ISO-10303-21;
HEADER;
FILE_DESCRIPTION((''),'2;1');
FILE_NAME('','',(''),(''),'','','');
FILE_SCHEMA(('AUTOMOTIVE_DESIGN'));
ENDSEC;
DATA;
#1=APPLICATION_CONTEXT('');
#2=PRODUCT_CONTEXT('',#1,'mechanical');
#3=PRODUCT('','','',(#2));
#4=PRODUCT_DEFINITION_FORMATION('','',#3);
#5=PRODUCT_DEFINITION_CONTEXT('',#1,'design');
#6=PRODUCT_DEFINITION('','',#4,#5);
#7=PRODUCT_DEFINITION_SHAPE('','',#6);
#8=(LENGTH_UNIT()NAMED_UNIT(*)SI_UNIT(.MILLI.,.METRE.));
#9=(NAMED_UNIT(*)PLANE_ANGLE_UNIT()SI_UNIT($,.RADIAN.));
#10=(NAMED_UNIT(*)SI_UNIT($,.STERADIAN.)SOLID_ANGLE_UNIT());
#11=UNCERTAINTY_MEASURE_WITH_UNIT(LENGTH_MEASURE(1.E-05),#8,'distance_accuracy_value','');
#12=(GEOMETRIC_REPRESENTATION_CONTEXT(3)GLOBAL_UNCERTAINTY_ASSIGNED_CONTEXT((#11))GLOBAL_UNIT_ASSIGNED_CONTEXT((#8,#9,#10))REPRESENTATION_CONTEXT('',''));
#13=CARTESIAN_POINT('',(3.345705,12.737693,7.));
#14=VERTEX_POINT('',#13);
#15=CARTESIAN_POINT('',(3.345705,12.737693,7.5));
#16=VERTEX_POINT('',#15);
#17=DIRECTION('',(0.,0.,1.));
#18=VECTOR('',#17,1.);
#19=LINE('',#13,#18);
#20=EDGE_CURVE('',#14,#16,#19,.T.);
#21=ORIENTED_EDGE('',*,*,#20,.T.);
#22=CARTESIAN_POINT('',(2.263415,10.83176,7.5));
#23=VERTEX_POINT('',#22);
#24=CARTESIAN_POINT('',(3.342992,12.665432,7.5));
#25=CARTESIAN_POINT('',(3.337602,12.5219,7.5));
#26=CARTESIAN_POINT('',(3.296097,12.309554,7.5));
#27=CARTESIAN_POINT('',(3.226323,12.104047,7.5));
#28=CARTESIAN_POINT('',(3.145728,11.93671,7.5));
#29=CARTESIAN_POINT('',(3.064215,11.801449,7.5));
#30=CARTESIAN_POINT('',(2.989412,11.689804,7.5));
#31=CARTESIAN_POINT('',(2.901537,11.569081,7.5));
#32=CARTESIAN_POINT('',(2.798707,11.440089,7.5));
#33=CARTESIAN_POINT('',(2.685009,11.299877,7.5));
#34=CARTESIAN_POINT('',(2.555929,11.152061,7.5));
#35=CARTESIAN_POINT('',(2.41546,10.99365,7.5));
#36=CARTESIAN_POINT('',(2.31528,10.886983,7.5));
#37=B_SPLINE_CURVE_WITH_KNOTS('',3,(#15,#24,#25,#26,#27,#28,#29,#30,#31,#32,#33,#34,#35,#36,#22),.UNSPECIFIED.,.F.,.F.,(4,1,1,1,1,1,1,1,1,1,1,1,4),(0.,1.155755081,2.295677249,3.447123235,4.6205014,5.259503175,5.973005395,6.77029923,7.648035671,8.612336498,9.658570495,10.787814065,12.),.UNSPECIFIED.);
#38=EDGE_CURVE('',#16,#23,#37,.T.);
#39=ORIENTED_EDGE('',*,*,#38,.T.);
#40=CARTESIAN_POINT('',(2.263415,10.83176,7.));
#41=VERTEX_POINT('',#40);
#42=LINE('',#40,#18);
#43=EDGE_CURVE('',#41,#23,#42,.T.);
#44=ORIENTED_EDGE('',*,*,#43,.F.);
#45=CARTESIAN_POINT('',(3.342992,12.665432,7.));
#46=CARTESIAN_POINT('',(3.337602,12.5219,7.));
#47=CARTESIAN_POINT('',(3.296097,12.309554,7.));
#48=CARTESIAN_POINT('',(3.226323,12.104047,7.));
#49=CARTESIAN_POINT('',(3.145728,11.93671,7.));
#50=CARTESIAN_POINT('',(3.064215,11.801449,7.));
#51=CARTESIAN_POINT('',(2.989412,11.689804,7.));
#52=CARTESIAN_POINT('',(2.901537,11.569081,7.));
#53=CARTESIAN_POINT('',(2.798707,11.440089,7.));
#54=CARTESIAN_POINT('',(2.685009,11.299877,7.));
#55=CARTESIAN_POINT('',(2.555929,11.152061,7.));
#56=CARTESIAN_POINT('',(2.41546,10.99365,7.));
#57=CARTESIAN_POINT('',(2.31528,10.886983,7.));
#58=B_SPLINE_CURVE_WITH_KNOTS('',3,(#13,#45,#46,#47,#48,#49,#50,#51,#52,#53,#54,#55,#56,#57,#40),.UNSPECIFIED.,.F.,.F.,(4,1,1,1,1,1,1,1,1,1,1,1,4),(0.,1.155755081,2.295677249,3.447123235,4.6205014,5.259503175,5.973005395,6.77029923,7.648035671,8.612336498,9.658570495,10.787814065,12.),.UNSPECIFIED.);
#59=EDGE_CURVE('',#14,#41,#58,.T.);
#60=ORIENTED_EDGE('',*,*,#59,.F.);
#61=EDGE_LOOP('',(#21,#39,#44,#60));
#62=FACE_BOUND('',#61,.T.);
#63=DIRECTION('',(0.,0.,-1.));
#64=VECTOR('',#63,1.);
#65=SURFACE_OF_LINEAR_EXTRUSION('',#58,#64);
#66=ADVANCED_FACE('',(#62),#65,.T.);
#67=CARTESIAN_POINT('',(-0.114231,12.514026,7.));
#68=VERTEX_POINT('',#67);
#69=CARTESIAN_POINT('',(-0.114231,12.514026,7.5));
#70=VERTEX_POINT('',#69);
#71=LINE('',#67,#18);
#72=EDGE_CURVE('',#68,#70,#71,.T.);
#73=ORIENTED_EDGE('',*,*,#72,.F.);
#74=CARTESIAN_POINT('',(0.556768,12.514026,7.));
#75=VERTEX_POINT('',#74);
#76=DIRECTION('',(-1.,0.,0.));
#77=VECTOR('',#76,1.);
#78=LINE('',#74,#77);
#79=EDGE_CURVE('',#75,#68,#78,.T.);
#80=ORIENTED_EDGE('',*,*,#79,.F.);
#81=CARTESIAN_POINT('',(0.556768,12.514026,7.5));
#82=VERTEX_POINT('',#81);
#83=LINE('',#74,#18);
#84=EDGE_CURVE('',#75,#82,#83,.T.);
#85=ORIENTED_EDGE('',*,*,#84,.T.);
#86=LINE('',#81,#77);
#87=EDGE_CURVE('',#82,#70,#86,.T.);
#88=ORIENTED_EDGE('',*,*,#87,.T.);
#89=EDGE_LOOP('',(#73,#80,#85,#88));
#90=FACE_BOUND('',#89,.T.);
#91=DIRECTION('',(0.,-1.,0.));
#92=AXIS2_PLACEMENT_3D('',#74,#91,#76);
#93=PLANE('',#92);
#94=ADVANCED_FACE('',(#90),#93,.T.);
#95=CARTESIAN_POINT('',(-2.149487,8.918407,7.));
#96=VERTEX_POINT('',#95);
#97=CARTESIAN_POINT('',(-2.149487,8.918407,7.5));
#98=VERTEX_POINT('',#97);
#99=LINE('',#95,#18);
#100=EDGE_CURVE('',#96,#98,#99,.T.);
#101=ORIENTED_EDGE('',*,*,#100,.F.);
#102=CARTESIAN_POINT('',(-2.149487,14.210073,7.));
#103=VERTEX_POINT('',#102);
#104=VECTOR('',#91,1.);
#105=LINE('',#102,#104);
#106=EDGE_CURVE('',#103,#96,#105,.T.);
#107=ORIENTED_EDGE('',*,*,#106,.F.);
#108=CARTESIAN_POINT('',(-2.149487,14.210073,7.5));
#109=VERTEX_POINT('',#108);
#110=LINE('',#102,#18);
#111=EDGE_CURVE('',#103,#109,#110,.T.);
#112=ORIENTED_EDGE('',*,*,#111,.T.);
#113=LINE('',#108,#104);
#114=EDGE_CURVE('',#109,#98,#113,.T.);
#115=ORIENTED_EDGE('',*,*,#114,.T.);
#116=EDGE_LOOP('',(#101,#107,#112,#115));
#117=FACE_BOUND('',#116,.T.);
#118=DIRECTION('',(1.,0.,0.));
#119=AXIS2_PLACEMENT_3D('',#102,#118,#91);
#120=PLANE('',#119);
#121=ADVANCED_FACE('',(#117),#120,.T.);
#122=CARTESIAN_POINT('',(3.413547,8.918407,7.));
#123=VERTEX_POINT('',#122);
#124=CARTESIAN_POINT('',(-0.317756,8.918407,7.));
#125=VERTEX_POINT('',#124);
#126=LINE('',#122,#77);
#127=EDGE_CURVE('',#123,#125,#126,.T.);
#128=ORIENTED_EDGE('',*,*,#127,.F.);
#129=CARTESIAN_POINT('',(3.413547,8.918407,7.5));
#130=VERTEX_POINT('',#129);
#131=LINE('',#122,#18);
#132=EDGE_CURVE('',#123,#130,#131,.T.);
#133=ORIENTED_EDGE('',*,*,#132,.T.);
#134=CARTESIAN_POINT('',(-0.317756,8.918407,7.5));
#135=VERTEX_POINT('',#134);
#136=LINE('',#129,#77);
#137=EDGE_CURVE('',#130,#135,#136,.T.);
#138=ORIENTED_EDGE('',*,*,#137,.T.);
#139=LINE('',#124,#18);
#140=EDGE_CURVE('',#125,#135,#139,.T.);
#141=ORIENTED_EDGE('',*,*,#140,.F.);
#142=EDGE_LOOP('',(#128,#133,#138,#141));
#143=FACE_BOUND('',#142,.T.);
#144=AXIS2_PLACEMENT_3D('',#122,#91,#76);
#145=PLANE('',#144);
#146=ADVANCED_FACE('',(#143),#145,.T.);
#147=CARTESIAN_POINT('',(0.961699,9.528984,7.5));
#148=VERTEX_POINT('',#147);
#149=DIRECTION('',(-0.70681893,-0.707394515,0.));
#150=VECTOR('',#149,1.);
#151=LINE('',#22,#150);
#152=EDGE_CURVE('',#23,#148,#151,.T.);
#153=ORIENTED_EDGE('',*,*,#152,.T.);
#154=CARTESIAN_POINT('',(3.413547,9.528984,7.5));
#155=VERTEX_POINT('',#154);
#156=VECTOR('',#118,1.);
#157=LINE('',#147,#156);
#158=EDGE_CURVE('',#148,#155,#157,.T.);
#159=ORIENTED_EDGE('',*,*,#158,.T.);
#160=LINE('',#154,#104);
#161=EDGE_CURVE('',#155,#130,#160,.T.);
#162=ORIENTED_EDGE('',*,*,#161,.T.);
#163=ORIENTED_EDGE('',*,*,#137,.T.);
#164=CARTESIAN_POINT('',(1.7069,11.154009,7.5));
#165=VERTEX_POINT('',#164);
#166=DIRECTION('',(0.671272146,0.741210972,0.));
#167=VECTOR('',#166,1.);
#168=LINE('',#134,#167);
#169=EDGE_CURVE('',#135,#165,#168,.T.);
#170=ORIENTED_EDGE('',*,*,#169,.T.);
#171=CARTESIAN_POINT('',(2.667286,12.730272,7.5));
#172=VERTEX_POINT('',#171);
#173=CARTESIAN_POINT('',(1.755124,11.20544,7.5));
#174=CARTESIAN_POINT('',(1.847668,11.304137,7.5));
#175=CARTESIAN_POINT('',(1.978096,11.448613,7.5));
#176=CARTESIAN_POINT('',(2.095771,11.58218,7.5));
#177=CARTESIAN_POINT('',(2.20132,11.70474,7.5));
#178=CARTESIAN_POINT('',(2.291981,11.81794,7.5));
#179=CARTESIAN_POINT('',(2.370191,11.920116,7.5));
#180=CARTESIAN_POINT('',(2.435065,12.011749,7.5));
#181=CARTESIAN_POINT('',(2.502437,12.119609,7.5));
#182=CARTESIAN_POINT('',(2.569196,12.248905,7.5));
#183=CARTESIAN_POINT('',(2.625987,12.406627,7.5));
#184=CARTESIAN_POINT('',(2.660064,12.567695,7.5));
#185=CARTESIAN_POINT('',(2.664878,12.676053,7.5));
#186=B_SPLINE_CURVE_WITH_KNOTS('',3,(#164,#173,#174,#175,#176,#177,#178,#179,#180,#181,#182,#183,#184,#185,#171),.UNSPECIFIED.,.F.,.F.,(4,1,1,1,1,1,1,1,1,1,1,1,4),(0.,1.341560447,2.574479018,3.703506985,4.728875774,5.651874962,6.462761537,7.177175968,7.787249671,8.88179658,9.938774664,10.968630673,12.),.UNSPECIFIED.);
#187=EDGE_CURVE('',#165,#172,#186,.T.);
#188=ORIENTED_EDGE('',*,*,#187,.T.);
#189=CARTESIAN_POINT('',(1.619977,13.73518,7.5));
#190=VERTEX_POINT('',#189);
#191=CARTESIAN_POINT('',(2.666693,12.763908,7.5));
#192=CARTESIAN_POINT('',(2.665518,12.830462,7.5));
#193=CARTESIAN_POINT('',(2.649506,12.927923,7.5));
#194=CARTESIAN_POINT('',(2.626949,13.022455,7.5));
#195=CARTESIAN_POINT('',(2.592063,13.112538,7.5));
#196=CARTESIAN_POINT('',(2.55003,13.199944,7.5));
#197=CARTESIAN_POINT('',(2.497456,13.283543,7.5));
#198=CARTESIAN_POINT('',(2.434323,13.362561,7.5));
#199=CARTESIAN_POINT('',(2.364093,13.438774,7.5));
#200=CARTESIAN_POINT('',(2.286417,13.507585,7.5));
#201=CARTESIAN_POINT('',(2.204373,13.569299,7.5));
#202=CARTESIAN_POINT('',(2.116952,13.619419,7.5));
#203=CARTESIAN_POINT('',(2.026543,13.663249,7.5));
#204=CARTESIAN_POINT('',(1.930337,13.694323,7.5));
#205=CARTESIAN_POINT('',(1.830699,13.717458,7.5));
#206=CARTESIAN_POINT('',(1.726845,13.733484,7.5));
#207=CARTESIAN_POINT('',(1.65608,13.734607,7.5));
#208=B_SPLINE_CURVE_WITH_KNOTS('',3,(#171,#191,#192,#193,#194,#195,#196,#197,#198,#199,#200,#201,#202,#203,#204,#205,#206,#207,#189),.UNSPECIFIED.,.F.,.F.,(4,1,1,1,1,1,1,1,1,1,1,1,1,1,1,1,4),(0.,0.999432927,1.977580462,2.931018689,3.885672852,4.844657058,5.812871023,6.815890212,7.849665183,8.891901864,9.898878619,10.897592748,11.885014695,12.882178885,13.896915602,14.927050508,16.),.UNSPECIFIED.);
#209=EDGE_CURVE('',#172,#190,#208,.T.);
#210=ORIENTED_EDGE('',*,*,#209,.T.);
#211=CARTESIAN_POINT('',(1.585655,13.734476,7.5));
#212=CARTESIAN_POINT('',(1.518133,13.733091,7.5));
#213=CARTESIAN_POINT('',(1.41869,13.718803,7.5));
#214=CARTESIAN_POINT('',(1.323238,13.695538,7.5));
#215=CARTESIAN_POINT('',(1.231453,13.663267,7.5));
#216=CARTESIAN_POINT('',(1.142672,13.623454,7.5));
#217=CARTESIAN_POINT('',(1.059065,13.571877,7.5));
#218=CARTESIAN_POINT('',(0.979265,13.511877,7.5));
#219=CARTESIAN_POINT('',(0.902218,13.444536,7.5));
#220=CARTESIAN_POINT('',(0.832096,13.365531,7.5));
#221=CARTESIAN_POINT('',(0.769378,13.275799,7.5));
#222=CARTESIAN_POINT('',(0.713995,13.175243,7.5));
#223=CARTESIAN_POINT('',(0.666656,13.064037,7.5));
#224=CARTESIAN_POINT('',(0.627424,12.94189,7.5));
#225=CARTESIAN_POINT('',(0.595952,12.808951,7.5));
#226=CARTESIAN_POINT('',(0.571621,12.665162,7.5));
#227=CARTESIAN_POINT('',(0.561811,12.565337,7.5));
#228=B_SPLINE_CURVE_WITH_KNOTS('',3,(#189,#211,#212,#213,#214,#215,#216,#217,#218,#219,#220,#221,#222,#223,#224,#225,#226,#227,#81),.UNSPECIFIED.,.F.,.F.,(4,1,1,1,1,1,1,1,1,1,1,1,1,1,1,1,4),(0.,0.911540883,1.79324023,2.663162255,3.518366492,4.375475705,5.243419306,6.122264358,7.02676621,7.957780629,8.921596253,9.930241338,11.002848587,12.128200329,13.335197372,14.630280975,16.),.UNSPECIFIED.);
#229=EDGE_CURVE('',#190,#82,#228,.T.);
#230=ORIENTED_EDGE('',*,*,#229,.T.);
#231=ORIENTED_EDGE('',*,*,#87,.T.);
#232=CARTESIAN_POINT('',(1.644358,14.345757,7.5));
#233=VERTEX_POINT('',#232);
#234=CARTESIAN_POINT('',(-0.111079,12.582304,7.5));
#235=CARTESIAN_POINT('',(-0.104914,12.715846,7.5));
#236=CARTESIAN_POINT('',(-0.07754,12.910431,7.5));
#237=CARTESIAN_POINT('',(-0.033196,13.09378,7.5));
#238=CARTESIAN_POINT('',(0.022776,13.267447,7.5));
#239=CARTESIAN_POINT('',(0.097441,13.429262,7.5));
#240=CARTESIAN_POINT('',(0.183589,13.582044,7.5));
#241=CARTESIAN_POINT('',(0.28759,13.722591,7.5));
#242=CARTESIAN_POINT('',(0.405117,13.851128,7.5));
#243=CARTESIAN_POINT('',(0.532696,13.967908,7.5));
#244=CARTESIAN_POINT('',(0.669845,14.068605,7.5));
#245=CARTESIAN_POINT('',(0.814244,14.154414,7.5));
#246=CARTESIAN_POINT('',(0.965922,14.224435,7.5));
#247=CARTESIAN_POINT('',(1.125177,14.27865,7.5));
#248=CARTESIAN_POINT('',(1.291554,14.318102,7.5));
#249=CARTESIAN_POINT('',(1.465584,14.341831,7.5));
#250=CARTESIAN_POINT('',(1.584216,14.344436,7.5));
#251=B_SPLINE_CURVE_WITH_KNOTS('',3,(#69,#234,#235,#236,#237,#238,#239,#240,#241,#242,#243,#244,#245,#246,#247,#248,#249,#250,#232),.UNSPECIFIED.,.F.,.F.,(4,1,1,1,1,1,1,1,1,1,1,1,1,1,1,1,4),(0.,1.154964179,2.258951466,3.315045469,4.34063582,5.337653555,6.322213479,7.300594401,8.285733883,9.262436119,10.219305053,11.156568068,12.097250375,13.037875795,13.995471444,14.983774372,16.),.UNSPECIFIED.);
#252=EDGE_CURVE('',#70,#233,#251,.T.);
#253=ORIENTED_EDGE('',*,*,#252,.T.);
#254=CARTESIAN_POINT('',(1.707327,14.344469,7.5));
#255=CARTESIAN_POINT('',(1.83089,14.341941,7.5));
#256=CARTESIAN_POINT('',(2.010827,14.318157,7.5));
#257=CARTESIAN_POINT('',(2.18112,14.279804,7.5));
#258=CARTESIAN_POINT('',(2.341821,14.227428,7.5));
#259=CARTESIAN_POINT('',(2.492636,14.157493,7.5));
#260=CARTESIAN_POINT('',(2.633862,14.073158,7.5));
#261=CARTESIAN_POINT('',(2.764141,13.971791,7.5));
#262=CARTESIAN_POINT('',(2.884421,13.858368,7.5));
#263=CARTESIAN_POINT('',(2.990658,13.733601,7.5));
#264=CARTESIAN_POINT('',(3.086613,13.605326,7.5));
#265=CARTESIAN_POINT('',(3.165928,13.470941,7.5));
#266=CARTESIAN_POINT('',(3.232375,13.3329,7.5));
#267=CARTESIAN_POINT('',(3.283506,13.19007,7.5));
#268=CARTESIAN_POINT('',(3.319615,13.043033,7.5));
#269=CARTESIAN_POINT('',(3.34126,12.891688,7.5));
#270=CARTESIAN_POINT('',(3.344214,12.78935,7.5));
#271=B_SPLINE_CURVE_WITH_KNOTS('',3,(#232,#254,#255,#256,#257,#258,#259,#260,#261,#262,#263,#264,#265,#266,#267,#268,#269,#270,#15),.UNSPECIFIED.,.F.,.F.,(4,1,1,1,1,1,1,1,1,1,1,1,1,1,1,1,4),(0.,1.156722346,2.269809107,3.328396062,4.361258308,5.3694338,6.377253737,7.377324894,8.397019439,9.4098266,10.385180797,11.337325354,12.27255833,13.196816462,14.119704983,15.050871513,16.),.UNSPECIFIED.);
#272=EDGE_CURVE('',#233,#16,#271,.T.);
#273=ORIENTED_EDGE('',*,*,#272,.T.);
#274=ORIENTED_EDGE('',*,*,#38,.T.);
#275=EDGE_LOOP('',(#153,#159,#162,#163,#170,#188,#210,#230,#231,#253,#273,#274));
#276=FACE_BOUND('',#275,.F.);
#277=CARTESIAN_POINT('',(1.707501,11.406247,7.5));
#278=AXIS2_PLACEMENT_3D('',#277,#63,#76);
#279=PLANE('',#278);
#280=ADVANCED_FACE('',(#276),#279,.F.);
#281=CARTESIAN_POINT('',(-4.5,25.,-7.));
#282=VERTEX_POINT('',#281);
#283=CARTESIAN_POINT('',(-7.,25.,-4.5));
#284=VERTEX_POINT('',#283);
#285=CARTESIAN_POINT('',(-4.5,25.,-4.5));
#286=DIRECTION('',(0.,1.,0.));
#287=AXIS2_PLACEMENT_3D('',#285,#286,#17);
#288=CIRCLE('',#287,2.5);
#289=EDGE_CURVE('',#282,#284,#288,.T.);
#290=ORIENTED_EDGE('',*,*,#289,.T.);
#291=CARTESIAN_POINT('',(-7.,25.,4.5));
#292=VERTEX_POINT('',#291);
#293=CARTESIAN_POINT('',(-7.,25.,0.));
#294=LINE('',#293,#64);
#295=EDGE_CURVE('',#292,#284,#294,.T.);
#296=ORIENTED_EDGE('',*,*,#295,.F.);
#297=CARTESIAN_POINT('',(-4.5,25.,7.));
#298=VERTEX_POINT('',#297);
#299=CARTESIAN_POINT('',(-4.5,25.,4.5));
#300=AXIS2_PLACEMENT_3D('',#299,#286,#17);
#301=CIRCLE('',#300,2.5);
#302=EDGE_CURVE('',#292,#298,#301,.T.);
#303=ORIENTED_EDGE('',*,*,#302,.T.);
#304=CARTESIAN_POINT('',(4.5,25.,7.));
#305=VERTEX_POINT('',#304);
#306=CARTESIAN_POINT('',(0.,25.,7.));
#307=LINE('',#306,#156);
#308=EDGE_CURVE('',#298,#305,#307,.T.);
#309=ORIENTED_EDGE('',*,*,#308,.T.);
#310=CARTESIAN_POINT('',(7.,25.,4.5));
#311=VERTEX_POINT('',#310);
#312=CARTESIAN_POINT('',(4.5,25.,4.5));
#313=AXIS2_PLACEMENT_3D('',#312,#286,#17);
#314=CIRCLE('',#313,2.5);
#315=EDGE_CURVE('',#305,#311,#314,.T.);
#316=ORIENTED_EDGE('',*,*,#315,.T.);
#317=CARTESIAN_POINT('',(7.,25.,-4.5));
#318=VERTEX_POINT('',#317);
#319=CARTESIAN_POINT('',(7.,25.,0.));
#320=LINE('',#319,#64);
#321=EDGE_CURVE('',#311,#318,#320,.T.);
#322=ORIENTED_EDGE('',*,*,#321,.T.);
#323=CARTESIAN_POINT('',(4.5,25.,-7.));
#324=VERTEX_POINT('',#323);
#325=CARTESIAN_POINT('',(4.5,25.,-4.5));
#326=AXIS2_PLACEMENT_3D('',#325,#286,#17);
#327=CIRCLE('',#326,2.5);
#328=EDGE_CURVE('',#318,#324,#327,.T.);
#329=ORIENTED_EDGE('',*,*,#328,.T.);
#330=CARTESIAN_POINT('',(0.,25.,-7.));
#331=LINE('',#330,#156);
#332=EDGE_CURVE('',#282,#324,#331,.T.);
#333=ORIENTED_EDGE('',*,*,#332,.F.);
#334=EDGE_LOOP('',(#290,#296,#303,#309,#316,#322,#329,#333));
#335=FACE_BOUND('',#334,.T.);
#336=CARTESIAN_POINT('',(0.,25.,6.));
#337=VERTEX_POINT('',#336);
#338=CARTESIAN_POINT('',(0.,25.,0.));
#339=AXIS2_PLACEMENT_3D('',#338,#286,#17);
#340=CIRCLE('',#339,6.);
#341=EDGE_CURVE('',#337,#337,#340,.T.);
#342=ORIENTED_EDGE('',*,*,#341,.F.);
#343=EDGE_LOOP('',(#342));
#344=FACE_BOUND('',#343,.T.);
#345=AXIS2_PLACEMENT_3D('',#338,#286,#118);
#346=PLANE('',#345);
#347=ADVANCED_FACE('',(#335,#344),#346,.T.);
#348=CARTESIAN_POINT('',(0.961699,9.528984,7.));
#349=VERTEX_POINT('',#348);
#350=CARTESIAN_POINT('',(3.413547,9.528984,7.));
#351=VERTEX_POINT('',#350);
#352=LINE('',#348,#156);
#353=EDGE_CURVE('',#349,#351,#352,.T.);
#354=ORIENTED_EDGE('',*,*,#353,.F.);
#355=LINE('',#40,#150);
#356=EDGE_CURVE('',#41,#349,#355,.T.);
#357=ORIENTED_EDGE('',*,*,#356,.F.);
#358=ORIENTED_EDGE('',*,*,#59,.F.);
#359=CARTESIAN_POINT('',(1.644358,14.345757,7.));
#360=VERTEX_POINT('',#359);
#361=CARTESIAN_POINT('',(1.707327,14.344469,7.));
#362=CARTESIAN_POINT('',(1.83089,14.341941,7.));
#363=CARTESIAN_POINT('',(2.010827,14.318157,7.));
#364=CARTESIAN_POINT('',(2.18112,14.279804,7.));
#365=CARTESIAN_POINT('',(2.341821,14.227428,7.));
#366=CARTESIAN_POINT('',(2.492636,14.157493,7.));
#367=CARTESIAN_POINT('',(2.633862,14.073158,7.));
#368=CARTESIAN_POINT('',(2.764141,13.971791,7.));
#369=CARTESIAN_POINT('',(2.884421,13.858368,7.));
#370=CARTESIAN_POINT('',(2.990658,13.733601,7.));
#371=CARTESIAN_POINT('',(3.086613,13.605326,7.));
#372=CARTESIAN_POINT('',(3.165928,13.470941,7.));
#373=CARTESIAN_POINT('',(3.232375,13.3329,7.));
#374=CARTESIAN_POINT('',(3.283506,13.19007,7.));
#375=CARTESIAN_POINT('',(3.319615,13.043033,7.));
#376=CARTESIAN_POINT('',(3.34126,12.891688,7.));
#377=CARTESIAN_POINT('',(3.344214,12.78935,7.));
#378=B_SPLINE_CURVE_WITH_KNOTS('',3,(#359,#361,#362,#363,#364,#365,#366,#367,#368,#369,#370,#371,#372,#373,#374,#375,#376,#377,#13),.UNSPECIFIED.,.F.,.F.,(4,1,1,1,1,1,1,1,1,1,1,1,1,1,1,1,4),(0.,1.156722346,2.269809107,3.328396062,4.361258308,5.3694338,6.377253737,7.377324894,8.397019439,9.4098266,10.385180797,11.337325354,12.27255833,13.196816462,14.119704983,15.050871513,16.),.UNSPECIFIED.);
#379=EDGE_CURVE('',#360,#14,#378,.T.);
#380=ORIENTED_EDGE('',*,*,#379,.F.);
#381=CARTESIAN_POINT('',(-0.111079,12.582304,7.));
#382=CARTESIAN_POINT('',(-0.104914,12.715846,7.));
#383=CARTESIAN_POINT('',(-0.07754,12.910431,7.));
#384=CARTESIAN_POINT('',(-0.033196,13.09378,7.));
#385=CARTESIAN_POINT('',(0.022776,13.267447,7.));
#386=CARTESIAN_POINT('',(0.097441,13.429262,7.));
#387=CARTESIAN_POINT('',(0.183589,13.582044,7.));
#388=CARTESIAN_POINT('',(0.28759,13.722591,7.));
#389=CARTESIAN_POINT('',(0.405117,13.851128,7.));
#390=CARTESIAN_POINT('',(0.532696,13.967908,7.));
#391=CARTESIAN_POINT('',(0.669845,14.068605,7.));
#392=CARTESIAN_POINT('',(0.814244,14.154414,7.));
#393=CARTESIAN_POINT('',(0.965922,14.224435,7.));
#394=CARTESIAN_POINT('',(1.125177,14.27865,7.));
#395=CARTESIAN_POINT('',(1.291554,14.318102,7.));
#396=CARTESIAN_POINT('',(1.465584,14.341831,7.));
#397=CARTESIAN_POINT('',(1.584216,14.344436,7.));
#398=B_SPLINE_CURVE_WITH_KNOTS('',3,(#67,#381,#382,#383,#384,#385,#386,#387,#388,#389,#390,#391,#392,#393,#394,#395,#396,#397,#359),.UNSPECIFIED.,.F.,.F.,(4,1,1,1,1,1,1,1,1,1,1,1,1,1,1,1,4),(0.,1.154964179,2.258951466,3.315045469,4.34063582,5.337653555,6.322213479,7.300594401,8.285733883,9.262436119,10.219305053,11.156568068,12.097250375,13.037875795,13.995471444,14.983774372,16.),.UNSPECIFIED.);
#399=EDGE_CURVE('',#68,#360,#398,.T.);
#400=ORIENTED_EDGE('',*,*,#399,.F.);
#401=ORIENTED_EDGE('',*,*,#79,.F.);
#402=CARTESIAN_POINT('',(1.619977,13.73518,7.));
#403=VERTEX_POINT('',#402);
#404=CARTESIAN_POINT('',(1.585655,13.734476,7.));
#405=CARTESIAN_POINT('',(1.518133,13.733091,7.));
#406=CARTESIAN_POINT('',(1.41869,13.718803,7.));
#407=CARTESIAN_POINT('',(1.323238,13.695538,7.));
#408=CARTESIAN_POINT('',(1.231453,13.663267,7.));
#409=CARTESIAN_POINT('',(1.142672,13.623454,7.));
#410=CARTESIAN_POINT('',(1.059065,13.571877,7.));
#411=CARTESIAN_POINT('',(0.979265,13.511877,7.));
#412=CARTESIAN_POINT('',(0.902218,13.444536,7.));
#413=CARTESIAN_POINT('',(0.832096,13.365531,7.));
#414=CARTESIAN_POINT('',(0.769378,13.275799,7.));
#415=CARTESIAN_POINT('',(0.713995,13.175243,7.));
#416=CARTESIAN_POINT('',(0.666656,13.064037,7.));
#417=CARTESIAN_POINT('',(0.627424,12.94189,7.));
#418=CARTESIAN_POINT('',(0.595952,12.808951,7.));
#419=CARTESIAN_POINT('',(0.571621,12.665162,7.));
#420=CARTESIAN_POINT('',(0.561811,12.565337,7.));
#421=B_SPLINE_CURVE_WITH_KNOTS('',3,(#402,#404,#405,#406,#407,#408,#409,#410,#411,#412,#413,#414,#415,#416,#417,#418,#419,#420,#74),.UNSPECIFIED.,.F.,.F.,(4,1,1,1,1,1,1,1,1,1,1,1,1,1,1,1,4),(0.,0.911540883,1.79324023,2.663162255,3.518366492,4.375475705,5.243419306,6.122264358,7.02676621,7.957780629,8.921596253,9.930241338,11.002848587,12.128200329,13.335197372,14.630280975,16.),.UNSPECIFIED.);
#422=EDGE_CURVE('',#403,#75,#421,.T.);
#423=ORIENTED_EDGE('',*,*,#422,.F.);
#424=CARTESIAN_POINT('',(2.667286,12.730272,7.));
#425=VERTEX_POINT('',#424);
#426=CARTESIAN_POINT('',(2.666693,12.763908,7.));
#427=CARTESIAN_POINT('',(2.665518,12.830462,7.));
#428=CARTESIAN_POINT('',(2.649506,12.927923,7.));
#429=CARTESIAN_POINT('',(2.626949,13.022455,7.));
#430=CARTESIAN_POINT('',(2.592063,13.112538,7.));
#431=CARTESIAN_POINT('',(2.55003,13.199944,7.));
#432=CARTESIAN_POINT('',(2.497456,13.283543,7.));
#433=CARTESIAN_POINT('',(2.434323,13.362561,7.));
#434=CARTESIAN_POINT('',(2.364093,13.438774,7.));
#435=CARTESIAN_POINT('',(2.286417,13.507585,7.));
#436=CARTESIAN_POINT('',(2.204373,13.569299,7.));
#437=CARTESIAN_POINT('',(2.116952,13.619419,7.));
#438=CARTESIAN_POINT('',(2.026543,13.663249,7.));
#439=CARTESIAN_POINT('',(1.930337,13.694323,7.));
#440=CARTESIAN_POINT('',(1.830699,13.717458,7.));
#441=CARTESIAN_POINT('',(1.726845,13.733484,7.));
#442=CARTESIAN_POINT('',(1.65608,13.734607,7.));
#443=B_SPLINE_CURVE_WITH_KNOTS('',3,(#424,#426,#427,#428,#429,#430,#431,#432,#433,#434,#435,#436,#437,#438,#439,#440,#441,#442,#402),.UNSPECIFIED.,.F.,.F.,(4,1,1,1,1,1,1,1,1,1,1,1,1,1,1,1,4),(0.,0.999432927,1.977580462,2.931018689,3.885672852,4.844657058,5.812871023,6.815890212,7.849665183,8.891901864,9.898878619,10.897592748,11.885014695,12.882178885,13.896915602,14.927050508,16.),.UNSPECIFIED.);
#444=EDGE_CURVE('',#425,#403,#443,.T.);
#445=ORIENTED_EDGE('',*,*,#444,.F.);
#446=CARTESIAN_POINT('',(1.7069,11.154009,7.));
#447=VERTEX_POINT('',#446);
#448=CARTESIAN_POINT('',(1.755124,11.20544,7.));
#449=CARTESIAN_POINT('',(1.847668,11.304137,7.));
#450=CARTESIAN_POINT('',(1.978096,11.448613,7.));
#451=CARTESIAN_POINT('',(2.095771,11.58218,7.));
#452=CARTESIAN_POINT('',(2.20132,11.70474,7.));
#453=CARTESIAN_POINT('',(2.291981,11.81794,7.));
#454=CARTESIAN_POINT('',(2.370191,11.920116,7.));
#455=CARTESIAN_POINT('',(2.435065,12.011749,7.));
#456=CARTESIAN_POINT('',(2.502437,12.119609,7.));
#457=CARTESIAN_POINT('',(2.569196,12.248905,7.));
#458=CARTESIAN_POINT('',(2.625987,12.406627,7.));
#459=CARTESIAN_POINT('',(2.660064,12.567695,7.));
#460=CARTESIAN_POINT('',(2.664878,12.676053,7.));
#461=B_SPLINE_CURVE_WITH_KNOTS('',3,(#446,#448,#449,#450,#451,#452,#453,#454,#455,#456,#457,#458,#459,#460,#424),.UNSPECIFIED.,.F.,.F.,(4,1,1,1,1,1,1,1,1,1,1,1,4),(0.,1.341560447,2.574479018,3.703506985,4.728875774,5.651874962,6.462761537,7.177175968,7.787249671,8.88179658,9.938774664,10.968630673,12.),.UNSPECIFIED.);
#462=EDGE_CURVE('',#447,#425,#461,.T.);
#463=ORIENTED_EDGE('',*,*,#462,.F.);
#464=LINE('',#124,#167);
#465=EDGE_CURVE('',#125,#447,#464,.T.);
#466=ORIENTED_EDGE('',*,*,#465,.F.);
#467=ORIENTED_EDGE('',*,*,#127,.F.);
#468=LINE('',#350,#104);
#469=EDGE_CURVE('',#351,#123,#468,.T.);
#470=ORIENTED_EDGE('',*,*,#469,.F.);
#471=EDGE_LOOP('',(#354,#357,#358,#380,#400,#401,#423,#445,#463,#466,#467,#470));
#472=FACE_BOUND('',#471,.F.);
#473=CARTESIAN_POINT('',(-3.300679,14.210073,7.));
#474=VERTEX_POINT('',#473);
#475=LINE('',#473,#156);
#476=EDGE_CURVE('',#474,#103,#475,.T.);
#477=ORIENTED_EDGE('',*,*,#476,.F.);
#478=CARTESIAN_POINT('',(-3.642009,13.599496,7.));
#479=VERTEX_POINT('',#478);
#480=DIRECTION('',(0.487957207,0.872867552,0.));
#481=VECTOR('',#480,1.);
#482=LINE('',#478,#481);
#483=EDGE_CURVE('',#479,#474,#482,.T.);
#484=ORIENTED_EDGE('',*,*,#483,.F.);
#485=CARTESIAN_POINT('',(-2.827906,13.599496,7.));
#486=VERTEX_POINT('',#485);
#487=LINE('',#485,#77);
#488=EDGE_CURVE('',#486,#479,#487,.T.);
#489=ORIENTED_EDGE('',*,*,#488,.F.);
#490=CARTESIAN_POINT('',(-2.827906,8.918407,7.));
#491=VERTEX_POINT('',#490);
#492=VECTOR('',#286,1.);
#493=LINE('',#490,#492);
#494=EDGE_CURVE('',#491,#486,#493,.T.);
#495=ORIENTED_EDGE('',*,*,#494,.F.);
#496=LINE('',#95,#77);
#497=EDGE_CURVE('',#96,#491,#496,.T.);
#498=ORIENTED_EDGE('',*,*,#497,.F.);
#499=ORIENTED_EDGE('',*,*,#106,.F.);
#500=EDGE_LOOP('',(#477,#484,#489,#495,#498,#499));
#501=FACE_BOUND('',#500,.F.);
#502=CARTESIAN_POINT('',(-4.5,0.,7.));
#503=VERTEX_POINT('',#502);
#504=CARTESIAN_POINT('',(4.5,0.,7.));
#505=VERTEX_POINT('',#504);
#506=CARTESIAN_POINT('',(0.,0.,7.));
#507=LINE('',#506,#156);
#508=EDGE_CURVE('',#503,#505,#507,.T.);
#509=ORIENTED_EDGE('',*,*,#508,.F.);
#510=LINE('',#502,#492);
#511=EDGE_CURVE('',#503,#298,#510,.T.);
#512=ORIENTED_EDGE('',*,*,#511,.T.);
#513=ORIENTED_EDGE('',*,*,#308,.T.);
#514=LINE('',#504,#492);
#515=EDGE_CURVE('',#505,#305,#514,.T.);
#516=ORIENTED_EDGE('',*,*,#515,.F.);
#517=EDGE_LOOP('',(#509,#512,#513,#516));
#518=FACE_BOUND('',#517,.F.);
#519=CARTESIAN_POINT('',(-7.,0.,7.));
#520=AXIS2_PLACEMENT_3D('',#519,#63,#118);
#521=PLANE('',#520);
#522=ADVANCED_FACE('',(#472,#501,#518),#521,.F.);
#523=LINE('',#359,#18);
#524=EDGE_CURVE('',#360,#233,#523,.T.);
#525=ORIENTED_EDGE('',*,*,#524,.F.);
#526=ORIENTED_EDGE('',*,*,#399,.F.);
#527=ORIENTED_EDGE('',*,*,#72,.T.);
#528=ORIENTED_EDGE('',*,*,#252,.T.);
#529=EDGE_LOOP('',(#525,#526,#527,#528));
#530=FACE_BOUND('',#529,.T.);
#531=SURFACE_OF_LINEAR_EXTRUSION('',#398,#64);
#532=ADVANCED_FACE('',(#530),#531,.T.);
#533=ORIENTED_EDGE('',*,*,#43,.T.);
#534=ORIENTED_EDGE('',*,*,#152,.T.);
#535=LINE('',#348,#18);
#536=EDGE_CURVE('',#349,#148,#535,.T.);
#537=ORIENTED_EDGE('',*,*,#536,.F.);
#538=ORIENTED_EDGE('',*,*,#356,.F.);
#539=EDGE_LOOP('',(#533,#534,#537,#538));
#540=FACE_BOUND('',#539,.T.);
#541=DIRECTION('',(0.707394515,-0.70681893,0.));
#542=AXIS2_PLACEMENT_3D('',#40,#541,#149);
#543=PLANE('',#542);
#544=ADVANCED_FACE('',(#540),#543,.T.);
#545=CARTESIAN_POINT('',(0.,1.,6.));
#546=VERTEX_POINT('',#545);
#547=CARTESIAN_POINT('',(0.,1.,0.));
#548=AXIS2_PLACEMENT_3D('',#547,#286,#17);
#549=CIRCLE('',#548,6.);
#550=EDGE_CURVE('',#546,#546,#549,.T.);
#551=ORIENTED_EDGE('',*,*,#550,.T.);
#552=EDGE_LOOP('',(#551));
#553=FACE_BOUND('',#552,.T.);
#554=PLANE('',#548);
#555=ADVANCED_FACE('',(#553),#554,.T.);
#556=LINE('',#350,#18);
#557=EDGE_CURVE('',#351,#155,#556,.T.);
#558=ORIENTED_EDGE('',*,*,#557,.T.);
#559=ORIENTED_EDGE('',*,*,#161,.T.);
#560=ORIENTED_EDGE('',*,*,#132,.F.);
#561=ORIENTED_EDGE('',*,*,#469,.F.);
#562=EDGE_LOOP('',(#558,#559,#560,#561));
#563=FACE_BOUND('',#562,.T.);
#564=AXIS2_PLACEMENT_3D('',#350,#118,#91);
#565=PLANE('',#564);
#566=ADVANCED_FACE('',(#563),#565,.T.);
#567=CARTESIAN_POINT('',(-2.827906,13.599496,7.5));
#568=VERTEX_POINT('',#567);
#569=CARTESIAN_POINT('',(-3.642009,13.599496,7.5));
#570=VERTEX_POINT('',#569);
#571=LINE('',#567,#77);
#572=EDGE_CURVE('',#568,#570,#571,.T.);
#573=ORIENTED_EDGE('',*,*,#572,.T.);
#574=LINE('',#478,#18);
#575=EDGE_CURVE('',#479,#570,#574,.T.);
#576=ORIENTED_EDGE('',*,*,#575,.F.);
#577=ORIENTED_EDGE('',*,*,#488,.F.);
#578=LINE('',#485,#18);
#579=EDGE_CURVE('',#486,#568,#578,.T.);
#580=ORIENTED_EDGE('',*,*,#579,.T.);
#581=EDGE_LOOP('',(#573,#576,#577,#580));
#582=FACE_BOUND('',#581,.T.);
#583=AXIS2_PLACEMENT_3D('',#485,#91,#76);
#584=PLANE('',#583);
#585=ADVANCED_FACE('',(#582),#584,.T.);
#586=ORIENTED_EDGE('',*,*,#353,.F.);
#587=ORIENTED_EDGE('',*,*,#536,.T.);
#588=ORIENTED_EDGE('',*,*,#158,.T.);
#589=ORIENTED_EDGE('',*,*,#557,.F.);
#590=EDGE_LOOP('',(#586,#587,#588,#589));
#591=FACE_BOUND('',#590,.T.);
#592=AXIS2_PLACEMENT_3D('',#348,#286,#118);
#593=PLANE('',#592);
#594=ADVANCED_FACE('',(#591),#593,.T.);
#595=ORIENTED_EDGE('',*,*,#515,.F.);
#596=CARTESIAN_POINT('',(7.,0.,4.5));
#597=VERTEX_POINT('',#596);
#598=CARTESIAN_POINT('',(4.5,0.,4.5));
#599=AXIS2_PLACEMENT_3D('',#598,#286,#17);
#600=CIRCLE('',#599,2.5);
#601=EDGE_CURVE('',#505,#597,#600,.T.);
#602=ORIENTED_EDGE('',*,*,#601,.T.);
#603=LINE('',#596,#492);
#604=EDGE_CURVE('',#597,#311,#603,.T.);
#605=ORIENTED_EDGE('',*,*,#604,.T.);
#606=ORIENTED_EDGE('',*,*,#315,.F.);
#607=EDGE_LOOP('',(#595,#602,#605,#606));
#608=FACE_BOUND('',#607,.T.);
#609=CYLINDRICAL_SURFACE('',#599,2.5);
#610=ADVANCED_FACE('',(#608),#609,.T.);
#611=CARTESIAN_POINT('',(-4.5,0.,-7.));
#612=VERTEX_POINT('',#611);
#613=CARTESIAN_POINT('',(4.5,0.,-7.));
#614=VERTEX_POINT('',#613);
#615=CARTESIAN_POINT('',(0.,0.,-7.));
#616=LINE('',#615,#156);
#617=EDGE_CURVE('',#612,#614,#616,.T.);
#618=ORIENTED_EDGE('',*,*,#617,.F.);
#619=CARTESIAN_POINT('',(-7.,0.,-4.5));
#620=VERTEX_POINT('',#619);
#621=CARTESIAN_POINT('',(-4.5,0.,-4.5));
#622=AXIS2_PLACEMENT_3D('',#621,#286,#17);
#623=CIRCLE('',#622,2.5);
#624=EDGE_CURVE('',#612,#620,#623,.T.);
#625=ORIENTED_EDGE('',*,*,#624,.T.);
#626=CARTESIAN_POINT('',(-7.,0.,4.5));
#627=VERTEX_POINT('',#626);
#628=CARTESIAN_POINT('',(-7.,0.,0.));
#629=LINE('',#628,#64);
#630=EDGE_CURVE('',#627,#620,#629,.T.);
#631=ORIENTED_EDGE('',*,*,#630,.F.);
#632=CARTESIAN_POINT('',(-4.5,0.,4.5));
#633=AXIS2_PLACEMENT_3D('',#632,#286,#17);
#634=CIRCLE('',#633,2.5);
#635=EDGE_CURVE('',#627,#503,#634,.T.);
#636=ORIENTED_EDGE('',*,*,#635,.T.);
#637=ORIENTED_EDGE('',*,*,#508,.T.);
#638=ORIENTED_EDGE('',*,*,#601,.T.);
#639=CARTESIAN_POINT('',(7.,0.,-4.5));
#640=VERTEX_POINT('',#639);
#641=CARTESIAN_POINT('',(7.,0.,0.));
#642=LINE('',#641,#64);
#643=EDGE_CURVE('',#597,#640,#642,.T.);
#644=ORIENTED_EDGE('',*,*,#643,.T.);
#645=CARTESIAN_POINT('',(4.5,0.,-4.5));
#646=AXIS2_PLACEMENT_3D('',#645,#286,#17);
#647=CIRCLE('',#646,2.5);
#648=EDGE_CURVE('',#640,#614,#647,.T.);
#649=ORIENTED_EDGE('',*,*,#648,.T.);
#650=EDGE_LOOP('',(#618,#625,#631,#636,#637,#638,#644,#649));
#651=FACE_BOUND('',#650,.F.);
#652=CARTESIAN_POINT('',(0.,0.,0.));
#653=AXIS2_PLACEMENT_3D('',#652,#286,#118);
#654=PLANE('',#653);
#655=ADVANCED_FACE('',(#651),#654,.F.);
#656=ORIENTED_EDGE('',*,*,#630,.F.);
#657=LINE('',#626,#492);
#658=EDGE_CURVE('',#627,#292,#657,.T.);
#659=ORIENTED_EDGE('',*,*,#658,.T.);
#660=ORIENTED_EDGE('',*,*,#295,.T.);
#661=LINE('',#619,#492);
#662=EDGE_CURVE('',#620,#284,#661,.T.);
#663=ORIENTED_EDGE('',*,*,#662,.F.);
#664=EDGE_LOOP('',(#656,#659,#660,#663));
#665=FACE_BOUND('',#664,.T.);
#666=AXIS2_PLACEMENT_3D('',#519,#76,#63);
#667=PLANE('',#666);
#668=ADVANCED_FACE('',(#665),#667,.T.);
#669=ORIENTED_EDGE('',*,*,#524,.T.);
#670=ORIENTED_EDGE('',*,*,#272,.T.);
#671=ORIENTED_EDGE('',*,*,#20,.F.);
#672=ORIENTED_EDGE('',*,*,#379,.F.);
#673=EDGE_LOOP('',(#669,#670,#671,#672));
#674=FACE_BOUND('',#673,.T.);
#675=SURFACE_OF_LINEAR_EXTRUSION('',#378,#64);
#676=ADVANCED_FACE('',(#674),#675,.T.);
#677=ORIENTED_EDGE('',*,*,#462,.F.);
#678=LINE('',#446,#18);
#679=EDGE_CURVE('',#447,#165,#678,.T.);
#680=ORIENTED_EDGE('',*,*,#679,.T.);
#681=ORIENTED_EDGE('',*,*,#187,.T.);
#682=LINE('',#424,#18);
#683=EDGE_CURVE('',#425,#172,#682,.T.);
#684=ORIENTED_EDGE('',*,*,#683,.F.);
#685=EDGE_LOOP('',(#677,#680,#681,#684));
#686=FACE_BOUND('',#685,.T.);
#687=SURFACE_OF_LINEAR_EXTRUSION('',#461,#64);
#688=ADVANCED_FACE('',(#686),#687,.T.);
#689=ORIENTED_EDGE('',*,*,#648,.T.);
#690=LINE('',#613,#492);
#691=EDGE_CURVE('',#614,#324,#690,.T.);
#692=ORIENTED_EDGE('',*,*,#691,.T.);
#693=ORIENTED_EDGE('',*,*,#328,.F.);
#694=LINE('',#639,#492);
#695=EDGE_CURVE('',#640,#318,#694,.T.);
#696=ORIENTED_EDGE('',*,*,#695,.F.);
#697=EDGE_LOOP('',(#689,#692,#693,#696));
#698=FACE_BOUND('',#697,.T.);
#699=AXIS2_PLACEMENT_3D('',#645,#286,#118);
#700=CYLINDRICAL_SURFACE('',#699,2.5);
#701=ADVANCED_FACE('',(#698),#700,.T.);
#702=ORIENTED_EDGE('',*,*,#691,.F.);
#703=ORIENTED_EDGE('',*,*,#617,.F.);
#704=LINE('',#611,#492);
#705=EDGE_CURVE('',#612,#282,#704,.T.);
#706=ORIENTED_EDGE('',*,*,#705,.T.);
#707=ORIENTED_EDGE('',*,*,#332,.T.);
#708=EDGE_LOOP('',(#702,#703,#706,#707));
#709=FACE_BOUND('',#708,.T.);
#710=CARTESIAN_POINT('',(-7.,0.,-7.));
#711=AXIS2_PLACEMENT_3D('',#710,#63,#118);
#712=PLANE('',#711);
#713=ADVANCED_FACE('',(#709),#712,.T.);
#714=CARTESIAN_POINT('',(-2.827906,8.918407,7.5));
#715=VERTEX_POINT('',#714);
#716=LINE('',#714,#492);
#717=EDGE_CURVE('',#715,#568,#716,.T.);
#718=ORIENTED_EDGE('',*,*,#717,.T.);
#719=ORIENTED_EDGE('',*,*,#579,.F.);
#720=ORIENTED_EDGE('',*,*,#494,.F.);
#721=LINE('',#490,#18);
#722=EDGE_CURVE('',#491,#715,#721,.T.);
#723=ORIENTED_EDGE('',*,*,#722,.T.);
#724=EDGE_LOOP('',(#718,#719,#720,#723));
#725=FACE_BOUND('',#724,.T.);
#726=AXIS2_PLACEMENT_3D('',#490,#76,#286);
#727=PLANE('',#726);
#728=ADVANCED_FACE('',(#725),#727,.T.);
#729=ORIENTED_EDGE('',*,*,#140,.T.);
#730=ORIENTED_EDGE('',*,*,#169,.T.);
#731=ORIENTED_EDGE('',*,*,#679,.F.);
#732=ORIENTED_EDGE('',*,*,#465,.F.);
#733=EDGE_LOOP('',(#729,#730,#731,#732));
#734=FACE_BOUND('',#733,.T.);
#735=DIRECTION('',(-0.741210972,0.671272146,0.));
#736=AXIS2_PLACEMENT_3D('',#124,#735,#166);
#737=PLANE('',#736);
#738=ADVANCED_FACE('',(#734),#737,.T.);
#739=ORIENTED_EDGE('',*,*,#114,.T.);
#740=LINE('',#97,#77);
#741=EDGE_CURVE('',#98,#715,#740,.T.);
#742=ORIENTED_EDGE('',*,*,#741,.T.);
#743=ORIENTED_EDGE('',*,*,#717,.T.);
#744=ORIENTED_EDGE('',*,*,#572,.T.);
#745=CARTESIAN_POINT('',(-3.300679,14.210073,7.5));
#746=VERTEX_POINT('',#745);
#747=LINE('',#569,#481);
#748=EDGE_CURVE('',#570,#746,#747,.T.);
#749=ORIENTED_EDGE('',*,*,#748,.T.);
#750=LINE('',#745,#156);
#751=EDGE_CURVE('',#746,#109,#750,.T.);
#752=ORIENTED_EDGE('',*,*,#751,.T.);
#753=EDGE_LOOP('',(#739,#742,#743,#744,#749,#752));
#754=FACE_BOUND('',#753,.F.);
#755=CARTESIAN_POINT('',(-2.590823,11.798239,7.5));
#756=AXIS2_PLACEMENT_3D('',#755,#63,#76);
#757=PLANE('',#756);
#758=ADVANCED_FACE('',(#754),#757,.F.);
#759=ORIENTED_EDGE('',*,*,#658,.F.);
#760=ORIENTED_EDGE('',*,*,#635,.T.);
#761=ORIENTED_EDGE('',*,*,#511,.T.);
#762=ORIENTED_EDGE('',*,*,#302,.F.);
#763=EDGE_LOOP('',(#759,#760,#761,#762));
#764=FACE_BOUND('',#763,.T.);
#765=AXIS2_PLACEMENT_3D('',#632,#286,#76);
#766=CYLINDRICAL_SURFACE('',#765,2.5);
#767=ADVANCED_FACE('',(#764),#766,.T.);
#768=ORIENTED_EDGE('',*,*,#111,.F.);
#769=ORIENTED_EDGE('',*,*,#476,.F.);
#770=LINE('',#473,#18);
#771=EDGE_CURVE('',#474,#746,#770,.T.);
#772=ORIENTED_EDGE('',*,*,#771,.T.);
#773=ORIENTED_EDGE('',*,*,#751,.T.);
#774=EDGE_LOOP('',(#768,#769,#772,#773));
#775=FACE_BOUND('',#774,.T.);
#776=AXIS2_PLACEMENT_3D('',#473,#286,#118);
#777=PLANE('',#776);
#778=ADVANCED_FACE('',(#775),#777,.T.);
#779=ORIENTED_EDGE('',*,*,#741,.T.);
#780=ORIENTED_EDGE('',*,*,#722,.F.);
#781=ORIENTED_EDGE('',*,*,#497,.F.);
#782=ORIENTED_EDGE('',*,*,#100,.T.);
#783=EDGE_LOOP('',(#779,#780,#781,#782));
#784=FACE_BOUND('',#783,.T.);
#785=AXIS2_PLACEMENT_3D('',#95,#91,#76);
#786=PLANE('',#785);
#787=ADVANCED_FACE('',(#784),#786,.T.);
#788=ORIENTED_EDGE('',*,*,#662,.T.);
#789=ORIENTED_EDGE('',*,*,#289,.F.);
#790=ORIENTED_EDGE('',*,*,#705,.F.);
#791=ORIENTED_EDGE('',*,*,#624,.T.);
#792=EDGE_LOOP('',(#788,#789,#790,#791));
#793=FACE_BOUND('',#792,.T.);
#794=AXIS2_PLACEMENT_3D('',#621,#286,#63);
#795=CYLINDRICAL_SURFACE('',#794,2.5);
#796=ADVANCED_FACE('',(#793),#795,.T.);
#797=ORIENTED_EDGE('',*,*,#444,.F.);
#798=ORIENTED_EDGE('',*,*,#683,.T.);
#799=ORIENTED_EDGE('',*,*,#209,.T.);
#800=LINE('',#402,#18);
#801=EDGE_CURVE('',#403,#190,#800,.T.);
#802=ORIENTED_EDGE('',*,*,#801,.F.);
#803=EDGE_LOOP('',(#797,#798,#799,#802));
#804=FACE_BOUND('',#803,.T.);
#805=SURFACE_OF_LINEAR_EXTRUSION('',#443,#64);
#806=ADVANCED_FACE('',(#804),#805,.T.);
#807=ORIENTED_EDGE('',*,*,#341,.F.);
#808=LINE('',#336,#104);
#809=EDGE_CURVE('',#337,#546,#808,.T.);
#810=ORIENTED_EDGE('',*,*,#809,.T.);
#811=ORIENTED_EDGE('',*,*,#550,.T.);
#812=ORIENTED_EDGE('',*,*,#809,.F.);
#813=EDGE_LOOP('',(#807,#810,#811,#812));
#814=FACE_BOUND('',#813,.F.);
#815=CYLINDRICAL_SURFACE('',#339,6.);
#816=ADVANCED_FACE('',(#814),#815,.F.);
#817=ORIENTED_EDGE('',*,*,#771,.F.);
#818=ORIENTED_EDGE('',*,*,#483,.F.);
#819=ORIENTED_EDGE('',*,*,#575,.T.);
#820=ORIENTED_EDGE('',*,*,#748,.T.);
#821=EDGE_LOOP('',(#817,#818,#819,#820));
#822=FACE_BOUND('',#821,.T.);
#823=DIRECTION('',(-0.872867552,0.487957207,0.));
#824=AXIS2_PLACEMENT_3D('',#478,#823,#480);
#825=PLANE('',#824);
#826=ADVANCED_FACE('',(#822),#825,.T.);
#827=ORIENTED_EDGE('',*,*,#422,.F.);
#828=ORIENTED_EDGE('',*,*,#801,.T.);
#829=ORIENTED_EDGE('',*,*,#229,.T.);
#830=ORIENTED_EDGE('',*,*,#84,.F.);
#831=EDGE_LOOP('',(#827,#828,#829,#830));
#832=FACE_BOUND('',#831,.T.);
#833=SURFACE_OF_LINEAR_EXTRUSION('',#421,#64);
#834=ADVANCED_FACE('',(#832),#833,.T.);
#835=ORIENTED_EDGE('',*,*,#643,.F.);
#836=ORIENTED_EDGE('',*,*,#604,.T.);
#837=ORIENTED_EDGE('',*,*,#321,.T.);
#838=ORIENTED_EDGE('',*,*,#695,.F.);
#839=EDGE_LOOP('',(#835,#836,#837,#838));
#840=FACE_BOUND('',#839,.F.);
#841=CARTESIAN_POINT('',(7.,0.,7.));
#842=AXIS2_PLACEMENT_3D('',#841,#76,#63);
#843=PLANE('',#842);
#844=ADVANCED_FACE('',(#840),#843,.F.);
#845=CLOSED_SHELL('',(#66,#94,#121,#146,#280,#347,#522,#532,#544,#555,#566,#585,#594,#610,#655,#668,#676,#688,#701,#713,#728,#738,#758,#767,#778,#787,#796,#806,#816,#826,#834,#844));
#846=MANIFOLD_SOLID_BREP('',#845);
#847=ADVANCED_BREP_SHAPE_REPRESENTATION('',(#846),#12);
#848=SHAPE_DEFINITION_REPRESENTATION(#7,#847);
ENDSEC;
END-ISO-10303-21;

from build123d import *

# Parameters (mm, degrees)
SKETCH1_W           = 14
SKETCH1_H           = 14
BOSS_EXTRUDE1_DEPTH = 25
SKETCH2_R           = 6
CUT_EXTRUDE1_DEPTH  = 24
BOSS_EXTRUDE3_DEPTH = 0.5
FILLET1_R           = 2.5
FILLET2_R           = 2.5
FILLET3_R           = 2.5
FILLET4_R           = 2.5


with BuildPart() as part:
    # Sketch1 → Boss-Extrude1 (new body)
    with BuildSketch(Plane(origin=(0, 0, 0), x_dir=(1, 0, 0), z_dir=(0, 1, 0))):
        Rectangle(SKETCH1_W, SKETCH1_H)
    extrude(amount=BOSS_EXTRUDE1_DEPTH)

    # Sketch2 → Cut-Extrude1 (cut)
    with BuildSketch(Plane(origin=(0, 25, 0), x_dir=(1, 0, 0), z_dir=(0, 1, 0))):
        with Locations(Location((0, 0, 0), (0, 0, 270))):
            Circle(SKETCH2_R)
    extrude(amount=-CUT_EXTRUDE1_DEPTH, mode=Mode.SUBTRACT)

    # Sketch3 → Boss-Extrude3 (add)
    with BuildSketch(Plane.XY.offset(7)):
        Polygon((-3.300679086, 14.210073329), (-2.149487179, 14.210073329), (-2.149487179, 8.918406662), (-2.827905982, 8.918406662), (-2.827905982, 13.599496406), (-3.642008546, 13.599496406), align=None)
        with BuildLine():
            Line((0.556767829, 12.514026321), (-0.114230768, 12.514026321))
            add(Edge.make_bspline(
                [(-0.114230768, 12.514026321), (-0.111078886, 12.582304036), (-0.104914236, 12.71584588), (-0.077540014, 12.910431266), (-0.033195725, 13.093780337), (0.02277613, 13.267447402), (0.097441024, 13.429261532), (0.183589376, 13.582043561), (0.287590231, 13.722591478), (0.405116879, 13.851127618), (0.532696206, 13.967907704), (0.66984458, 14.068604955), (0.814243771, 14.154413881), (0.965922174, 14.224434532), (1.125176835, 14.278650186), (1.291553818, 14.318101559), (1.465583884, 14.341830622), (1.584215771, 14.344436169), (1.644357974, 14.34575709)],
                knots=[0, 0, 0, 0, 1.154964179, 2.258951466, 3.315045469, 4.34063582, 5.337653555, 6.322213479, 7.300594401, 8.285733883, 9.262436119, 10.219305053, 11.156568068, 12.097250375, 13.037875795, 13.995471444, 14.983774372, 16, 16, 16, 16], degree=3))
            add(Edge.make_bspline(
                [(1.644357974, 14.34575709), (1.70732699, 14.344469016), (1.830889612, 14.34194146), (2.01082655, 14.31815685), (2.181120391, 14.279804182), (2.341820997, 14.227428226), (2.492635583, 14.157492683), (2.633861547, 14.073158132), (2.764141354, 13.971791047), (2.884420569, 13.858367608), (2.990658217, 13.73360089), (3.086612633, 13.605325884), (3.165928247, 13.470941026), (3.232374739, 13.332900213), (3.283506362, 13.190070488), (3.319615354, 13.043033103), (3.341259687, 12.891688146), (3.344213908, 12.789350264), (3.345705129, 12.73769252)],
                knots=[0, 0, 0, 0, 1.156722346, 2.269809107, 3.328396062, 4.361258308, 5.3694338, 6.377253737, 7.377324894, 8.397019439, 9.4098266, 10.385180797, 11.337325354, 12.27255833, 13.196816462, 14.119704983, 15.050871513, 16, 16, 16, 16], degree=3))
            add(Edge.make_bspline(
                [(3.345705129, 12.73769252), (3.342991558, 12.665431813), (3.337601589, 12.521900312), (3.29609716, 12.309553694), (3.226323351, 12.104046507), (3.145727927, 11.936709759), (3.064215379, 11.80144908), (2.989411872, 11.689803537), (2.901537104, 11.569080813), (2.798706557, 11.440089036), (2.685009192, 11.299876822), (2.555928501, 11.152061213), (2.415459729, 10.993649578), (2.315279585, 10.886982507), (2.263415132, 10.831759694)],
                knots=[0, 0, 0, 0, 1.155755081, 2.295677249, 3.447123235, 4.6205014, 5.259503175, 5.973005395, 6.77029923, 7.648035671, 8.612336498, 9.658570495, 10.787814065, 12, 12, 12, 12], degree=3))
            Line((2.263415132, 10.831759694), (0.961699053, 9.528983586))
            Line((0.961699053, 9.528983586), (3.413547009, 9.528983586))
            Line((3.413547009, 9.528983586), (3.413547009, 8.918406662))
            Line((3.413547009, 8.918406662), (-0.317756409, 8.918406662))
            Line((-0.317756409, 8.918406662), (1.706899707, 11.154008626))
            add(Edge.make_bspline(
                [(1.706899707, 11.154008626), (1.755124332, 11.205439648), (1.847668268, 11.304136719), (1.978095845, 11.448613384), (2.095770717, 11.582179805), (2.201320257, 11.704739563), (2.29198055, 11.81793999), (2.370190541, 11.92011571), (2.435064878, 12.011749217), (2.502437185, 12.119609483), (2.569196231, 12.248904612), (2.625986943, 12.406626513), (2.660064153, 12.567694788), (2.664877757, 12.676053287), (2.667286326, 12.730272314)],
                knots=[0, 0, 0, 0, 1.341560447, 2.574479018, 3.703506985, 4.728875774, 5.651874962, 6.462761537, 7.177175968, 7.787249671, 8.88179658, 9.938774664, 10.968630673, 12, 12, 12, 12], degree=3))
            add(Edge.make_bspline(
                [(2.667286326, 12.730272314), (2.666692753, 12.763907746), (2.66551825, 12.830462259), (2.649505827, 12.927923363), (2.626949455, 13.022455211), (2.592062636, 13.112538015), (2.550030438, 13.199944057), (2.497455636, 13.283543423), (2.434322648, 13.362560638), (2.36409314, 13.43877354), (2.286417458, 13.507585159), (2.204373375, 13.569299116), (2.116951948, 13.619418877), (2.026543408, 13.663249485), (1.930337353, 13.694322519), (1.830698643, 13.717457991), (1.726844914, 13.733484398), (1.656080047, 13.734607291), (1.619977298, 13.735180167)],
                knots=[0, 0, 0, 0, 0.999432927, 1.977580462, 2.931018689, 3.885672852, 4.844657058, 5.812871023, 6.815890212, 7.849665183, 8.891901864, 9.898878619, 10.897592748, 11.885014695, 12.882178885, 13.896915602, 14.927050508, 16, 16, 16, 16], degree=3))
            add(Edge.make_bspline(
                [(1.619977298, 13.735180167), (1.585654597, 13.734476202), (1.518132832, 13.733091317), (1.41869032, 13.718802518), (1.32323782, 13.695537542), (1.23145333, 13.663266899), (1.14267207, 13.623454267), (1.059064891, 13.571877079), (0.979265259, 13.511876917), (0.902218203, 13.444535768), (0.832096498, 13.365531193), (0.76937784, 13.275799414), (0.71399479, 13.175242657), (0.666655887, 13.064036834), (0.627423824, 12.941890194), (0.595952005, 12.808951264), (0.571621246, 12.66516219), (0.561810561, 12.565336908), (0.556767829, 12.514026321)],
                knots=[0, 0, 0, 0, 0.911540883, 1.79324023, 2.663162255, 3.518366492, 4.375475705, 5.243419306, 6.122264358, 7.02676621, 7.957780629, 8.921596253, 9.930241338, 11.002848587, 12.128200329, 13.335197372, 14.630280975, 16, 16, 16, 16], degree=3))
        make_face()
    extrude(amount=BOSS_EXTRUDE3_DEPTH)

    # Fillet1
    fillet1_edges = [part.edges().sort_by_distance(p)[0] for p in [
        (-7, 12.5, 7),
    ]]
    fillet(fillet1_edges, radius=FILLET1_R)

    # Fillet2
    fillet2_edges = [part.edges().sort_by_distance(p)[0] for p in [
        (7, 12.5, 7),
    ]]
    fillet(fillet2_edges, radius=FILLET2_R)

    # Fillet3
    fillet3_edges = [part.edges().sort_by_distance(p)[0] for p in [
        (7, 12.5, -7),
    ]]
    fillet(fillet3_edges, radius=FILLET3_R)

    # Fillet4
    fillet4_edges = [part.edges().sort_by_distance(p)[0] for p in [
        (-7, 12.5, -7),
    ]]
    fillet(fillet4_edges, radius=FILLET4_R)


solid = part.part
